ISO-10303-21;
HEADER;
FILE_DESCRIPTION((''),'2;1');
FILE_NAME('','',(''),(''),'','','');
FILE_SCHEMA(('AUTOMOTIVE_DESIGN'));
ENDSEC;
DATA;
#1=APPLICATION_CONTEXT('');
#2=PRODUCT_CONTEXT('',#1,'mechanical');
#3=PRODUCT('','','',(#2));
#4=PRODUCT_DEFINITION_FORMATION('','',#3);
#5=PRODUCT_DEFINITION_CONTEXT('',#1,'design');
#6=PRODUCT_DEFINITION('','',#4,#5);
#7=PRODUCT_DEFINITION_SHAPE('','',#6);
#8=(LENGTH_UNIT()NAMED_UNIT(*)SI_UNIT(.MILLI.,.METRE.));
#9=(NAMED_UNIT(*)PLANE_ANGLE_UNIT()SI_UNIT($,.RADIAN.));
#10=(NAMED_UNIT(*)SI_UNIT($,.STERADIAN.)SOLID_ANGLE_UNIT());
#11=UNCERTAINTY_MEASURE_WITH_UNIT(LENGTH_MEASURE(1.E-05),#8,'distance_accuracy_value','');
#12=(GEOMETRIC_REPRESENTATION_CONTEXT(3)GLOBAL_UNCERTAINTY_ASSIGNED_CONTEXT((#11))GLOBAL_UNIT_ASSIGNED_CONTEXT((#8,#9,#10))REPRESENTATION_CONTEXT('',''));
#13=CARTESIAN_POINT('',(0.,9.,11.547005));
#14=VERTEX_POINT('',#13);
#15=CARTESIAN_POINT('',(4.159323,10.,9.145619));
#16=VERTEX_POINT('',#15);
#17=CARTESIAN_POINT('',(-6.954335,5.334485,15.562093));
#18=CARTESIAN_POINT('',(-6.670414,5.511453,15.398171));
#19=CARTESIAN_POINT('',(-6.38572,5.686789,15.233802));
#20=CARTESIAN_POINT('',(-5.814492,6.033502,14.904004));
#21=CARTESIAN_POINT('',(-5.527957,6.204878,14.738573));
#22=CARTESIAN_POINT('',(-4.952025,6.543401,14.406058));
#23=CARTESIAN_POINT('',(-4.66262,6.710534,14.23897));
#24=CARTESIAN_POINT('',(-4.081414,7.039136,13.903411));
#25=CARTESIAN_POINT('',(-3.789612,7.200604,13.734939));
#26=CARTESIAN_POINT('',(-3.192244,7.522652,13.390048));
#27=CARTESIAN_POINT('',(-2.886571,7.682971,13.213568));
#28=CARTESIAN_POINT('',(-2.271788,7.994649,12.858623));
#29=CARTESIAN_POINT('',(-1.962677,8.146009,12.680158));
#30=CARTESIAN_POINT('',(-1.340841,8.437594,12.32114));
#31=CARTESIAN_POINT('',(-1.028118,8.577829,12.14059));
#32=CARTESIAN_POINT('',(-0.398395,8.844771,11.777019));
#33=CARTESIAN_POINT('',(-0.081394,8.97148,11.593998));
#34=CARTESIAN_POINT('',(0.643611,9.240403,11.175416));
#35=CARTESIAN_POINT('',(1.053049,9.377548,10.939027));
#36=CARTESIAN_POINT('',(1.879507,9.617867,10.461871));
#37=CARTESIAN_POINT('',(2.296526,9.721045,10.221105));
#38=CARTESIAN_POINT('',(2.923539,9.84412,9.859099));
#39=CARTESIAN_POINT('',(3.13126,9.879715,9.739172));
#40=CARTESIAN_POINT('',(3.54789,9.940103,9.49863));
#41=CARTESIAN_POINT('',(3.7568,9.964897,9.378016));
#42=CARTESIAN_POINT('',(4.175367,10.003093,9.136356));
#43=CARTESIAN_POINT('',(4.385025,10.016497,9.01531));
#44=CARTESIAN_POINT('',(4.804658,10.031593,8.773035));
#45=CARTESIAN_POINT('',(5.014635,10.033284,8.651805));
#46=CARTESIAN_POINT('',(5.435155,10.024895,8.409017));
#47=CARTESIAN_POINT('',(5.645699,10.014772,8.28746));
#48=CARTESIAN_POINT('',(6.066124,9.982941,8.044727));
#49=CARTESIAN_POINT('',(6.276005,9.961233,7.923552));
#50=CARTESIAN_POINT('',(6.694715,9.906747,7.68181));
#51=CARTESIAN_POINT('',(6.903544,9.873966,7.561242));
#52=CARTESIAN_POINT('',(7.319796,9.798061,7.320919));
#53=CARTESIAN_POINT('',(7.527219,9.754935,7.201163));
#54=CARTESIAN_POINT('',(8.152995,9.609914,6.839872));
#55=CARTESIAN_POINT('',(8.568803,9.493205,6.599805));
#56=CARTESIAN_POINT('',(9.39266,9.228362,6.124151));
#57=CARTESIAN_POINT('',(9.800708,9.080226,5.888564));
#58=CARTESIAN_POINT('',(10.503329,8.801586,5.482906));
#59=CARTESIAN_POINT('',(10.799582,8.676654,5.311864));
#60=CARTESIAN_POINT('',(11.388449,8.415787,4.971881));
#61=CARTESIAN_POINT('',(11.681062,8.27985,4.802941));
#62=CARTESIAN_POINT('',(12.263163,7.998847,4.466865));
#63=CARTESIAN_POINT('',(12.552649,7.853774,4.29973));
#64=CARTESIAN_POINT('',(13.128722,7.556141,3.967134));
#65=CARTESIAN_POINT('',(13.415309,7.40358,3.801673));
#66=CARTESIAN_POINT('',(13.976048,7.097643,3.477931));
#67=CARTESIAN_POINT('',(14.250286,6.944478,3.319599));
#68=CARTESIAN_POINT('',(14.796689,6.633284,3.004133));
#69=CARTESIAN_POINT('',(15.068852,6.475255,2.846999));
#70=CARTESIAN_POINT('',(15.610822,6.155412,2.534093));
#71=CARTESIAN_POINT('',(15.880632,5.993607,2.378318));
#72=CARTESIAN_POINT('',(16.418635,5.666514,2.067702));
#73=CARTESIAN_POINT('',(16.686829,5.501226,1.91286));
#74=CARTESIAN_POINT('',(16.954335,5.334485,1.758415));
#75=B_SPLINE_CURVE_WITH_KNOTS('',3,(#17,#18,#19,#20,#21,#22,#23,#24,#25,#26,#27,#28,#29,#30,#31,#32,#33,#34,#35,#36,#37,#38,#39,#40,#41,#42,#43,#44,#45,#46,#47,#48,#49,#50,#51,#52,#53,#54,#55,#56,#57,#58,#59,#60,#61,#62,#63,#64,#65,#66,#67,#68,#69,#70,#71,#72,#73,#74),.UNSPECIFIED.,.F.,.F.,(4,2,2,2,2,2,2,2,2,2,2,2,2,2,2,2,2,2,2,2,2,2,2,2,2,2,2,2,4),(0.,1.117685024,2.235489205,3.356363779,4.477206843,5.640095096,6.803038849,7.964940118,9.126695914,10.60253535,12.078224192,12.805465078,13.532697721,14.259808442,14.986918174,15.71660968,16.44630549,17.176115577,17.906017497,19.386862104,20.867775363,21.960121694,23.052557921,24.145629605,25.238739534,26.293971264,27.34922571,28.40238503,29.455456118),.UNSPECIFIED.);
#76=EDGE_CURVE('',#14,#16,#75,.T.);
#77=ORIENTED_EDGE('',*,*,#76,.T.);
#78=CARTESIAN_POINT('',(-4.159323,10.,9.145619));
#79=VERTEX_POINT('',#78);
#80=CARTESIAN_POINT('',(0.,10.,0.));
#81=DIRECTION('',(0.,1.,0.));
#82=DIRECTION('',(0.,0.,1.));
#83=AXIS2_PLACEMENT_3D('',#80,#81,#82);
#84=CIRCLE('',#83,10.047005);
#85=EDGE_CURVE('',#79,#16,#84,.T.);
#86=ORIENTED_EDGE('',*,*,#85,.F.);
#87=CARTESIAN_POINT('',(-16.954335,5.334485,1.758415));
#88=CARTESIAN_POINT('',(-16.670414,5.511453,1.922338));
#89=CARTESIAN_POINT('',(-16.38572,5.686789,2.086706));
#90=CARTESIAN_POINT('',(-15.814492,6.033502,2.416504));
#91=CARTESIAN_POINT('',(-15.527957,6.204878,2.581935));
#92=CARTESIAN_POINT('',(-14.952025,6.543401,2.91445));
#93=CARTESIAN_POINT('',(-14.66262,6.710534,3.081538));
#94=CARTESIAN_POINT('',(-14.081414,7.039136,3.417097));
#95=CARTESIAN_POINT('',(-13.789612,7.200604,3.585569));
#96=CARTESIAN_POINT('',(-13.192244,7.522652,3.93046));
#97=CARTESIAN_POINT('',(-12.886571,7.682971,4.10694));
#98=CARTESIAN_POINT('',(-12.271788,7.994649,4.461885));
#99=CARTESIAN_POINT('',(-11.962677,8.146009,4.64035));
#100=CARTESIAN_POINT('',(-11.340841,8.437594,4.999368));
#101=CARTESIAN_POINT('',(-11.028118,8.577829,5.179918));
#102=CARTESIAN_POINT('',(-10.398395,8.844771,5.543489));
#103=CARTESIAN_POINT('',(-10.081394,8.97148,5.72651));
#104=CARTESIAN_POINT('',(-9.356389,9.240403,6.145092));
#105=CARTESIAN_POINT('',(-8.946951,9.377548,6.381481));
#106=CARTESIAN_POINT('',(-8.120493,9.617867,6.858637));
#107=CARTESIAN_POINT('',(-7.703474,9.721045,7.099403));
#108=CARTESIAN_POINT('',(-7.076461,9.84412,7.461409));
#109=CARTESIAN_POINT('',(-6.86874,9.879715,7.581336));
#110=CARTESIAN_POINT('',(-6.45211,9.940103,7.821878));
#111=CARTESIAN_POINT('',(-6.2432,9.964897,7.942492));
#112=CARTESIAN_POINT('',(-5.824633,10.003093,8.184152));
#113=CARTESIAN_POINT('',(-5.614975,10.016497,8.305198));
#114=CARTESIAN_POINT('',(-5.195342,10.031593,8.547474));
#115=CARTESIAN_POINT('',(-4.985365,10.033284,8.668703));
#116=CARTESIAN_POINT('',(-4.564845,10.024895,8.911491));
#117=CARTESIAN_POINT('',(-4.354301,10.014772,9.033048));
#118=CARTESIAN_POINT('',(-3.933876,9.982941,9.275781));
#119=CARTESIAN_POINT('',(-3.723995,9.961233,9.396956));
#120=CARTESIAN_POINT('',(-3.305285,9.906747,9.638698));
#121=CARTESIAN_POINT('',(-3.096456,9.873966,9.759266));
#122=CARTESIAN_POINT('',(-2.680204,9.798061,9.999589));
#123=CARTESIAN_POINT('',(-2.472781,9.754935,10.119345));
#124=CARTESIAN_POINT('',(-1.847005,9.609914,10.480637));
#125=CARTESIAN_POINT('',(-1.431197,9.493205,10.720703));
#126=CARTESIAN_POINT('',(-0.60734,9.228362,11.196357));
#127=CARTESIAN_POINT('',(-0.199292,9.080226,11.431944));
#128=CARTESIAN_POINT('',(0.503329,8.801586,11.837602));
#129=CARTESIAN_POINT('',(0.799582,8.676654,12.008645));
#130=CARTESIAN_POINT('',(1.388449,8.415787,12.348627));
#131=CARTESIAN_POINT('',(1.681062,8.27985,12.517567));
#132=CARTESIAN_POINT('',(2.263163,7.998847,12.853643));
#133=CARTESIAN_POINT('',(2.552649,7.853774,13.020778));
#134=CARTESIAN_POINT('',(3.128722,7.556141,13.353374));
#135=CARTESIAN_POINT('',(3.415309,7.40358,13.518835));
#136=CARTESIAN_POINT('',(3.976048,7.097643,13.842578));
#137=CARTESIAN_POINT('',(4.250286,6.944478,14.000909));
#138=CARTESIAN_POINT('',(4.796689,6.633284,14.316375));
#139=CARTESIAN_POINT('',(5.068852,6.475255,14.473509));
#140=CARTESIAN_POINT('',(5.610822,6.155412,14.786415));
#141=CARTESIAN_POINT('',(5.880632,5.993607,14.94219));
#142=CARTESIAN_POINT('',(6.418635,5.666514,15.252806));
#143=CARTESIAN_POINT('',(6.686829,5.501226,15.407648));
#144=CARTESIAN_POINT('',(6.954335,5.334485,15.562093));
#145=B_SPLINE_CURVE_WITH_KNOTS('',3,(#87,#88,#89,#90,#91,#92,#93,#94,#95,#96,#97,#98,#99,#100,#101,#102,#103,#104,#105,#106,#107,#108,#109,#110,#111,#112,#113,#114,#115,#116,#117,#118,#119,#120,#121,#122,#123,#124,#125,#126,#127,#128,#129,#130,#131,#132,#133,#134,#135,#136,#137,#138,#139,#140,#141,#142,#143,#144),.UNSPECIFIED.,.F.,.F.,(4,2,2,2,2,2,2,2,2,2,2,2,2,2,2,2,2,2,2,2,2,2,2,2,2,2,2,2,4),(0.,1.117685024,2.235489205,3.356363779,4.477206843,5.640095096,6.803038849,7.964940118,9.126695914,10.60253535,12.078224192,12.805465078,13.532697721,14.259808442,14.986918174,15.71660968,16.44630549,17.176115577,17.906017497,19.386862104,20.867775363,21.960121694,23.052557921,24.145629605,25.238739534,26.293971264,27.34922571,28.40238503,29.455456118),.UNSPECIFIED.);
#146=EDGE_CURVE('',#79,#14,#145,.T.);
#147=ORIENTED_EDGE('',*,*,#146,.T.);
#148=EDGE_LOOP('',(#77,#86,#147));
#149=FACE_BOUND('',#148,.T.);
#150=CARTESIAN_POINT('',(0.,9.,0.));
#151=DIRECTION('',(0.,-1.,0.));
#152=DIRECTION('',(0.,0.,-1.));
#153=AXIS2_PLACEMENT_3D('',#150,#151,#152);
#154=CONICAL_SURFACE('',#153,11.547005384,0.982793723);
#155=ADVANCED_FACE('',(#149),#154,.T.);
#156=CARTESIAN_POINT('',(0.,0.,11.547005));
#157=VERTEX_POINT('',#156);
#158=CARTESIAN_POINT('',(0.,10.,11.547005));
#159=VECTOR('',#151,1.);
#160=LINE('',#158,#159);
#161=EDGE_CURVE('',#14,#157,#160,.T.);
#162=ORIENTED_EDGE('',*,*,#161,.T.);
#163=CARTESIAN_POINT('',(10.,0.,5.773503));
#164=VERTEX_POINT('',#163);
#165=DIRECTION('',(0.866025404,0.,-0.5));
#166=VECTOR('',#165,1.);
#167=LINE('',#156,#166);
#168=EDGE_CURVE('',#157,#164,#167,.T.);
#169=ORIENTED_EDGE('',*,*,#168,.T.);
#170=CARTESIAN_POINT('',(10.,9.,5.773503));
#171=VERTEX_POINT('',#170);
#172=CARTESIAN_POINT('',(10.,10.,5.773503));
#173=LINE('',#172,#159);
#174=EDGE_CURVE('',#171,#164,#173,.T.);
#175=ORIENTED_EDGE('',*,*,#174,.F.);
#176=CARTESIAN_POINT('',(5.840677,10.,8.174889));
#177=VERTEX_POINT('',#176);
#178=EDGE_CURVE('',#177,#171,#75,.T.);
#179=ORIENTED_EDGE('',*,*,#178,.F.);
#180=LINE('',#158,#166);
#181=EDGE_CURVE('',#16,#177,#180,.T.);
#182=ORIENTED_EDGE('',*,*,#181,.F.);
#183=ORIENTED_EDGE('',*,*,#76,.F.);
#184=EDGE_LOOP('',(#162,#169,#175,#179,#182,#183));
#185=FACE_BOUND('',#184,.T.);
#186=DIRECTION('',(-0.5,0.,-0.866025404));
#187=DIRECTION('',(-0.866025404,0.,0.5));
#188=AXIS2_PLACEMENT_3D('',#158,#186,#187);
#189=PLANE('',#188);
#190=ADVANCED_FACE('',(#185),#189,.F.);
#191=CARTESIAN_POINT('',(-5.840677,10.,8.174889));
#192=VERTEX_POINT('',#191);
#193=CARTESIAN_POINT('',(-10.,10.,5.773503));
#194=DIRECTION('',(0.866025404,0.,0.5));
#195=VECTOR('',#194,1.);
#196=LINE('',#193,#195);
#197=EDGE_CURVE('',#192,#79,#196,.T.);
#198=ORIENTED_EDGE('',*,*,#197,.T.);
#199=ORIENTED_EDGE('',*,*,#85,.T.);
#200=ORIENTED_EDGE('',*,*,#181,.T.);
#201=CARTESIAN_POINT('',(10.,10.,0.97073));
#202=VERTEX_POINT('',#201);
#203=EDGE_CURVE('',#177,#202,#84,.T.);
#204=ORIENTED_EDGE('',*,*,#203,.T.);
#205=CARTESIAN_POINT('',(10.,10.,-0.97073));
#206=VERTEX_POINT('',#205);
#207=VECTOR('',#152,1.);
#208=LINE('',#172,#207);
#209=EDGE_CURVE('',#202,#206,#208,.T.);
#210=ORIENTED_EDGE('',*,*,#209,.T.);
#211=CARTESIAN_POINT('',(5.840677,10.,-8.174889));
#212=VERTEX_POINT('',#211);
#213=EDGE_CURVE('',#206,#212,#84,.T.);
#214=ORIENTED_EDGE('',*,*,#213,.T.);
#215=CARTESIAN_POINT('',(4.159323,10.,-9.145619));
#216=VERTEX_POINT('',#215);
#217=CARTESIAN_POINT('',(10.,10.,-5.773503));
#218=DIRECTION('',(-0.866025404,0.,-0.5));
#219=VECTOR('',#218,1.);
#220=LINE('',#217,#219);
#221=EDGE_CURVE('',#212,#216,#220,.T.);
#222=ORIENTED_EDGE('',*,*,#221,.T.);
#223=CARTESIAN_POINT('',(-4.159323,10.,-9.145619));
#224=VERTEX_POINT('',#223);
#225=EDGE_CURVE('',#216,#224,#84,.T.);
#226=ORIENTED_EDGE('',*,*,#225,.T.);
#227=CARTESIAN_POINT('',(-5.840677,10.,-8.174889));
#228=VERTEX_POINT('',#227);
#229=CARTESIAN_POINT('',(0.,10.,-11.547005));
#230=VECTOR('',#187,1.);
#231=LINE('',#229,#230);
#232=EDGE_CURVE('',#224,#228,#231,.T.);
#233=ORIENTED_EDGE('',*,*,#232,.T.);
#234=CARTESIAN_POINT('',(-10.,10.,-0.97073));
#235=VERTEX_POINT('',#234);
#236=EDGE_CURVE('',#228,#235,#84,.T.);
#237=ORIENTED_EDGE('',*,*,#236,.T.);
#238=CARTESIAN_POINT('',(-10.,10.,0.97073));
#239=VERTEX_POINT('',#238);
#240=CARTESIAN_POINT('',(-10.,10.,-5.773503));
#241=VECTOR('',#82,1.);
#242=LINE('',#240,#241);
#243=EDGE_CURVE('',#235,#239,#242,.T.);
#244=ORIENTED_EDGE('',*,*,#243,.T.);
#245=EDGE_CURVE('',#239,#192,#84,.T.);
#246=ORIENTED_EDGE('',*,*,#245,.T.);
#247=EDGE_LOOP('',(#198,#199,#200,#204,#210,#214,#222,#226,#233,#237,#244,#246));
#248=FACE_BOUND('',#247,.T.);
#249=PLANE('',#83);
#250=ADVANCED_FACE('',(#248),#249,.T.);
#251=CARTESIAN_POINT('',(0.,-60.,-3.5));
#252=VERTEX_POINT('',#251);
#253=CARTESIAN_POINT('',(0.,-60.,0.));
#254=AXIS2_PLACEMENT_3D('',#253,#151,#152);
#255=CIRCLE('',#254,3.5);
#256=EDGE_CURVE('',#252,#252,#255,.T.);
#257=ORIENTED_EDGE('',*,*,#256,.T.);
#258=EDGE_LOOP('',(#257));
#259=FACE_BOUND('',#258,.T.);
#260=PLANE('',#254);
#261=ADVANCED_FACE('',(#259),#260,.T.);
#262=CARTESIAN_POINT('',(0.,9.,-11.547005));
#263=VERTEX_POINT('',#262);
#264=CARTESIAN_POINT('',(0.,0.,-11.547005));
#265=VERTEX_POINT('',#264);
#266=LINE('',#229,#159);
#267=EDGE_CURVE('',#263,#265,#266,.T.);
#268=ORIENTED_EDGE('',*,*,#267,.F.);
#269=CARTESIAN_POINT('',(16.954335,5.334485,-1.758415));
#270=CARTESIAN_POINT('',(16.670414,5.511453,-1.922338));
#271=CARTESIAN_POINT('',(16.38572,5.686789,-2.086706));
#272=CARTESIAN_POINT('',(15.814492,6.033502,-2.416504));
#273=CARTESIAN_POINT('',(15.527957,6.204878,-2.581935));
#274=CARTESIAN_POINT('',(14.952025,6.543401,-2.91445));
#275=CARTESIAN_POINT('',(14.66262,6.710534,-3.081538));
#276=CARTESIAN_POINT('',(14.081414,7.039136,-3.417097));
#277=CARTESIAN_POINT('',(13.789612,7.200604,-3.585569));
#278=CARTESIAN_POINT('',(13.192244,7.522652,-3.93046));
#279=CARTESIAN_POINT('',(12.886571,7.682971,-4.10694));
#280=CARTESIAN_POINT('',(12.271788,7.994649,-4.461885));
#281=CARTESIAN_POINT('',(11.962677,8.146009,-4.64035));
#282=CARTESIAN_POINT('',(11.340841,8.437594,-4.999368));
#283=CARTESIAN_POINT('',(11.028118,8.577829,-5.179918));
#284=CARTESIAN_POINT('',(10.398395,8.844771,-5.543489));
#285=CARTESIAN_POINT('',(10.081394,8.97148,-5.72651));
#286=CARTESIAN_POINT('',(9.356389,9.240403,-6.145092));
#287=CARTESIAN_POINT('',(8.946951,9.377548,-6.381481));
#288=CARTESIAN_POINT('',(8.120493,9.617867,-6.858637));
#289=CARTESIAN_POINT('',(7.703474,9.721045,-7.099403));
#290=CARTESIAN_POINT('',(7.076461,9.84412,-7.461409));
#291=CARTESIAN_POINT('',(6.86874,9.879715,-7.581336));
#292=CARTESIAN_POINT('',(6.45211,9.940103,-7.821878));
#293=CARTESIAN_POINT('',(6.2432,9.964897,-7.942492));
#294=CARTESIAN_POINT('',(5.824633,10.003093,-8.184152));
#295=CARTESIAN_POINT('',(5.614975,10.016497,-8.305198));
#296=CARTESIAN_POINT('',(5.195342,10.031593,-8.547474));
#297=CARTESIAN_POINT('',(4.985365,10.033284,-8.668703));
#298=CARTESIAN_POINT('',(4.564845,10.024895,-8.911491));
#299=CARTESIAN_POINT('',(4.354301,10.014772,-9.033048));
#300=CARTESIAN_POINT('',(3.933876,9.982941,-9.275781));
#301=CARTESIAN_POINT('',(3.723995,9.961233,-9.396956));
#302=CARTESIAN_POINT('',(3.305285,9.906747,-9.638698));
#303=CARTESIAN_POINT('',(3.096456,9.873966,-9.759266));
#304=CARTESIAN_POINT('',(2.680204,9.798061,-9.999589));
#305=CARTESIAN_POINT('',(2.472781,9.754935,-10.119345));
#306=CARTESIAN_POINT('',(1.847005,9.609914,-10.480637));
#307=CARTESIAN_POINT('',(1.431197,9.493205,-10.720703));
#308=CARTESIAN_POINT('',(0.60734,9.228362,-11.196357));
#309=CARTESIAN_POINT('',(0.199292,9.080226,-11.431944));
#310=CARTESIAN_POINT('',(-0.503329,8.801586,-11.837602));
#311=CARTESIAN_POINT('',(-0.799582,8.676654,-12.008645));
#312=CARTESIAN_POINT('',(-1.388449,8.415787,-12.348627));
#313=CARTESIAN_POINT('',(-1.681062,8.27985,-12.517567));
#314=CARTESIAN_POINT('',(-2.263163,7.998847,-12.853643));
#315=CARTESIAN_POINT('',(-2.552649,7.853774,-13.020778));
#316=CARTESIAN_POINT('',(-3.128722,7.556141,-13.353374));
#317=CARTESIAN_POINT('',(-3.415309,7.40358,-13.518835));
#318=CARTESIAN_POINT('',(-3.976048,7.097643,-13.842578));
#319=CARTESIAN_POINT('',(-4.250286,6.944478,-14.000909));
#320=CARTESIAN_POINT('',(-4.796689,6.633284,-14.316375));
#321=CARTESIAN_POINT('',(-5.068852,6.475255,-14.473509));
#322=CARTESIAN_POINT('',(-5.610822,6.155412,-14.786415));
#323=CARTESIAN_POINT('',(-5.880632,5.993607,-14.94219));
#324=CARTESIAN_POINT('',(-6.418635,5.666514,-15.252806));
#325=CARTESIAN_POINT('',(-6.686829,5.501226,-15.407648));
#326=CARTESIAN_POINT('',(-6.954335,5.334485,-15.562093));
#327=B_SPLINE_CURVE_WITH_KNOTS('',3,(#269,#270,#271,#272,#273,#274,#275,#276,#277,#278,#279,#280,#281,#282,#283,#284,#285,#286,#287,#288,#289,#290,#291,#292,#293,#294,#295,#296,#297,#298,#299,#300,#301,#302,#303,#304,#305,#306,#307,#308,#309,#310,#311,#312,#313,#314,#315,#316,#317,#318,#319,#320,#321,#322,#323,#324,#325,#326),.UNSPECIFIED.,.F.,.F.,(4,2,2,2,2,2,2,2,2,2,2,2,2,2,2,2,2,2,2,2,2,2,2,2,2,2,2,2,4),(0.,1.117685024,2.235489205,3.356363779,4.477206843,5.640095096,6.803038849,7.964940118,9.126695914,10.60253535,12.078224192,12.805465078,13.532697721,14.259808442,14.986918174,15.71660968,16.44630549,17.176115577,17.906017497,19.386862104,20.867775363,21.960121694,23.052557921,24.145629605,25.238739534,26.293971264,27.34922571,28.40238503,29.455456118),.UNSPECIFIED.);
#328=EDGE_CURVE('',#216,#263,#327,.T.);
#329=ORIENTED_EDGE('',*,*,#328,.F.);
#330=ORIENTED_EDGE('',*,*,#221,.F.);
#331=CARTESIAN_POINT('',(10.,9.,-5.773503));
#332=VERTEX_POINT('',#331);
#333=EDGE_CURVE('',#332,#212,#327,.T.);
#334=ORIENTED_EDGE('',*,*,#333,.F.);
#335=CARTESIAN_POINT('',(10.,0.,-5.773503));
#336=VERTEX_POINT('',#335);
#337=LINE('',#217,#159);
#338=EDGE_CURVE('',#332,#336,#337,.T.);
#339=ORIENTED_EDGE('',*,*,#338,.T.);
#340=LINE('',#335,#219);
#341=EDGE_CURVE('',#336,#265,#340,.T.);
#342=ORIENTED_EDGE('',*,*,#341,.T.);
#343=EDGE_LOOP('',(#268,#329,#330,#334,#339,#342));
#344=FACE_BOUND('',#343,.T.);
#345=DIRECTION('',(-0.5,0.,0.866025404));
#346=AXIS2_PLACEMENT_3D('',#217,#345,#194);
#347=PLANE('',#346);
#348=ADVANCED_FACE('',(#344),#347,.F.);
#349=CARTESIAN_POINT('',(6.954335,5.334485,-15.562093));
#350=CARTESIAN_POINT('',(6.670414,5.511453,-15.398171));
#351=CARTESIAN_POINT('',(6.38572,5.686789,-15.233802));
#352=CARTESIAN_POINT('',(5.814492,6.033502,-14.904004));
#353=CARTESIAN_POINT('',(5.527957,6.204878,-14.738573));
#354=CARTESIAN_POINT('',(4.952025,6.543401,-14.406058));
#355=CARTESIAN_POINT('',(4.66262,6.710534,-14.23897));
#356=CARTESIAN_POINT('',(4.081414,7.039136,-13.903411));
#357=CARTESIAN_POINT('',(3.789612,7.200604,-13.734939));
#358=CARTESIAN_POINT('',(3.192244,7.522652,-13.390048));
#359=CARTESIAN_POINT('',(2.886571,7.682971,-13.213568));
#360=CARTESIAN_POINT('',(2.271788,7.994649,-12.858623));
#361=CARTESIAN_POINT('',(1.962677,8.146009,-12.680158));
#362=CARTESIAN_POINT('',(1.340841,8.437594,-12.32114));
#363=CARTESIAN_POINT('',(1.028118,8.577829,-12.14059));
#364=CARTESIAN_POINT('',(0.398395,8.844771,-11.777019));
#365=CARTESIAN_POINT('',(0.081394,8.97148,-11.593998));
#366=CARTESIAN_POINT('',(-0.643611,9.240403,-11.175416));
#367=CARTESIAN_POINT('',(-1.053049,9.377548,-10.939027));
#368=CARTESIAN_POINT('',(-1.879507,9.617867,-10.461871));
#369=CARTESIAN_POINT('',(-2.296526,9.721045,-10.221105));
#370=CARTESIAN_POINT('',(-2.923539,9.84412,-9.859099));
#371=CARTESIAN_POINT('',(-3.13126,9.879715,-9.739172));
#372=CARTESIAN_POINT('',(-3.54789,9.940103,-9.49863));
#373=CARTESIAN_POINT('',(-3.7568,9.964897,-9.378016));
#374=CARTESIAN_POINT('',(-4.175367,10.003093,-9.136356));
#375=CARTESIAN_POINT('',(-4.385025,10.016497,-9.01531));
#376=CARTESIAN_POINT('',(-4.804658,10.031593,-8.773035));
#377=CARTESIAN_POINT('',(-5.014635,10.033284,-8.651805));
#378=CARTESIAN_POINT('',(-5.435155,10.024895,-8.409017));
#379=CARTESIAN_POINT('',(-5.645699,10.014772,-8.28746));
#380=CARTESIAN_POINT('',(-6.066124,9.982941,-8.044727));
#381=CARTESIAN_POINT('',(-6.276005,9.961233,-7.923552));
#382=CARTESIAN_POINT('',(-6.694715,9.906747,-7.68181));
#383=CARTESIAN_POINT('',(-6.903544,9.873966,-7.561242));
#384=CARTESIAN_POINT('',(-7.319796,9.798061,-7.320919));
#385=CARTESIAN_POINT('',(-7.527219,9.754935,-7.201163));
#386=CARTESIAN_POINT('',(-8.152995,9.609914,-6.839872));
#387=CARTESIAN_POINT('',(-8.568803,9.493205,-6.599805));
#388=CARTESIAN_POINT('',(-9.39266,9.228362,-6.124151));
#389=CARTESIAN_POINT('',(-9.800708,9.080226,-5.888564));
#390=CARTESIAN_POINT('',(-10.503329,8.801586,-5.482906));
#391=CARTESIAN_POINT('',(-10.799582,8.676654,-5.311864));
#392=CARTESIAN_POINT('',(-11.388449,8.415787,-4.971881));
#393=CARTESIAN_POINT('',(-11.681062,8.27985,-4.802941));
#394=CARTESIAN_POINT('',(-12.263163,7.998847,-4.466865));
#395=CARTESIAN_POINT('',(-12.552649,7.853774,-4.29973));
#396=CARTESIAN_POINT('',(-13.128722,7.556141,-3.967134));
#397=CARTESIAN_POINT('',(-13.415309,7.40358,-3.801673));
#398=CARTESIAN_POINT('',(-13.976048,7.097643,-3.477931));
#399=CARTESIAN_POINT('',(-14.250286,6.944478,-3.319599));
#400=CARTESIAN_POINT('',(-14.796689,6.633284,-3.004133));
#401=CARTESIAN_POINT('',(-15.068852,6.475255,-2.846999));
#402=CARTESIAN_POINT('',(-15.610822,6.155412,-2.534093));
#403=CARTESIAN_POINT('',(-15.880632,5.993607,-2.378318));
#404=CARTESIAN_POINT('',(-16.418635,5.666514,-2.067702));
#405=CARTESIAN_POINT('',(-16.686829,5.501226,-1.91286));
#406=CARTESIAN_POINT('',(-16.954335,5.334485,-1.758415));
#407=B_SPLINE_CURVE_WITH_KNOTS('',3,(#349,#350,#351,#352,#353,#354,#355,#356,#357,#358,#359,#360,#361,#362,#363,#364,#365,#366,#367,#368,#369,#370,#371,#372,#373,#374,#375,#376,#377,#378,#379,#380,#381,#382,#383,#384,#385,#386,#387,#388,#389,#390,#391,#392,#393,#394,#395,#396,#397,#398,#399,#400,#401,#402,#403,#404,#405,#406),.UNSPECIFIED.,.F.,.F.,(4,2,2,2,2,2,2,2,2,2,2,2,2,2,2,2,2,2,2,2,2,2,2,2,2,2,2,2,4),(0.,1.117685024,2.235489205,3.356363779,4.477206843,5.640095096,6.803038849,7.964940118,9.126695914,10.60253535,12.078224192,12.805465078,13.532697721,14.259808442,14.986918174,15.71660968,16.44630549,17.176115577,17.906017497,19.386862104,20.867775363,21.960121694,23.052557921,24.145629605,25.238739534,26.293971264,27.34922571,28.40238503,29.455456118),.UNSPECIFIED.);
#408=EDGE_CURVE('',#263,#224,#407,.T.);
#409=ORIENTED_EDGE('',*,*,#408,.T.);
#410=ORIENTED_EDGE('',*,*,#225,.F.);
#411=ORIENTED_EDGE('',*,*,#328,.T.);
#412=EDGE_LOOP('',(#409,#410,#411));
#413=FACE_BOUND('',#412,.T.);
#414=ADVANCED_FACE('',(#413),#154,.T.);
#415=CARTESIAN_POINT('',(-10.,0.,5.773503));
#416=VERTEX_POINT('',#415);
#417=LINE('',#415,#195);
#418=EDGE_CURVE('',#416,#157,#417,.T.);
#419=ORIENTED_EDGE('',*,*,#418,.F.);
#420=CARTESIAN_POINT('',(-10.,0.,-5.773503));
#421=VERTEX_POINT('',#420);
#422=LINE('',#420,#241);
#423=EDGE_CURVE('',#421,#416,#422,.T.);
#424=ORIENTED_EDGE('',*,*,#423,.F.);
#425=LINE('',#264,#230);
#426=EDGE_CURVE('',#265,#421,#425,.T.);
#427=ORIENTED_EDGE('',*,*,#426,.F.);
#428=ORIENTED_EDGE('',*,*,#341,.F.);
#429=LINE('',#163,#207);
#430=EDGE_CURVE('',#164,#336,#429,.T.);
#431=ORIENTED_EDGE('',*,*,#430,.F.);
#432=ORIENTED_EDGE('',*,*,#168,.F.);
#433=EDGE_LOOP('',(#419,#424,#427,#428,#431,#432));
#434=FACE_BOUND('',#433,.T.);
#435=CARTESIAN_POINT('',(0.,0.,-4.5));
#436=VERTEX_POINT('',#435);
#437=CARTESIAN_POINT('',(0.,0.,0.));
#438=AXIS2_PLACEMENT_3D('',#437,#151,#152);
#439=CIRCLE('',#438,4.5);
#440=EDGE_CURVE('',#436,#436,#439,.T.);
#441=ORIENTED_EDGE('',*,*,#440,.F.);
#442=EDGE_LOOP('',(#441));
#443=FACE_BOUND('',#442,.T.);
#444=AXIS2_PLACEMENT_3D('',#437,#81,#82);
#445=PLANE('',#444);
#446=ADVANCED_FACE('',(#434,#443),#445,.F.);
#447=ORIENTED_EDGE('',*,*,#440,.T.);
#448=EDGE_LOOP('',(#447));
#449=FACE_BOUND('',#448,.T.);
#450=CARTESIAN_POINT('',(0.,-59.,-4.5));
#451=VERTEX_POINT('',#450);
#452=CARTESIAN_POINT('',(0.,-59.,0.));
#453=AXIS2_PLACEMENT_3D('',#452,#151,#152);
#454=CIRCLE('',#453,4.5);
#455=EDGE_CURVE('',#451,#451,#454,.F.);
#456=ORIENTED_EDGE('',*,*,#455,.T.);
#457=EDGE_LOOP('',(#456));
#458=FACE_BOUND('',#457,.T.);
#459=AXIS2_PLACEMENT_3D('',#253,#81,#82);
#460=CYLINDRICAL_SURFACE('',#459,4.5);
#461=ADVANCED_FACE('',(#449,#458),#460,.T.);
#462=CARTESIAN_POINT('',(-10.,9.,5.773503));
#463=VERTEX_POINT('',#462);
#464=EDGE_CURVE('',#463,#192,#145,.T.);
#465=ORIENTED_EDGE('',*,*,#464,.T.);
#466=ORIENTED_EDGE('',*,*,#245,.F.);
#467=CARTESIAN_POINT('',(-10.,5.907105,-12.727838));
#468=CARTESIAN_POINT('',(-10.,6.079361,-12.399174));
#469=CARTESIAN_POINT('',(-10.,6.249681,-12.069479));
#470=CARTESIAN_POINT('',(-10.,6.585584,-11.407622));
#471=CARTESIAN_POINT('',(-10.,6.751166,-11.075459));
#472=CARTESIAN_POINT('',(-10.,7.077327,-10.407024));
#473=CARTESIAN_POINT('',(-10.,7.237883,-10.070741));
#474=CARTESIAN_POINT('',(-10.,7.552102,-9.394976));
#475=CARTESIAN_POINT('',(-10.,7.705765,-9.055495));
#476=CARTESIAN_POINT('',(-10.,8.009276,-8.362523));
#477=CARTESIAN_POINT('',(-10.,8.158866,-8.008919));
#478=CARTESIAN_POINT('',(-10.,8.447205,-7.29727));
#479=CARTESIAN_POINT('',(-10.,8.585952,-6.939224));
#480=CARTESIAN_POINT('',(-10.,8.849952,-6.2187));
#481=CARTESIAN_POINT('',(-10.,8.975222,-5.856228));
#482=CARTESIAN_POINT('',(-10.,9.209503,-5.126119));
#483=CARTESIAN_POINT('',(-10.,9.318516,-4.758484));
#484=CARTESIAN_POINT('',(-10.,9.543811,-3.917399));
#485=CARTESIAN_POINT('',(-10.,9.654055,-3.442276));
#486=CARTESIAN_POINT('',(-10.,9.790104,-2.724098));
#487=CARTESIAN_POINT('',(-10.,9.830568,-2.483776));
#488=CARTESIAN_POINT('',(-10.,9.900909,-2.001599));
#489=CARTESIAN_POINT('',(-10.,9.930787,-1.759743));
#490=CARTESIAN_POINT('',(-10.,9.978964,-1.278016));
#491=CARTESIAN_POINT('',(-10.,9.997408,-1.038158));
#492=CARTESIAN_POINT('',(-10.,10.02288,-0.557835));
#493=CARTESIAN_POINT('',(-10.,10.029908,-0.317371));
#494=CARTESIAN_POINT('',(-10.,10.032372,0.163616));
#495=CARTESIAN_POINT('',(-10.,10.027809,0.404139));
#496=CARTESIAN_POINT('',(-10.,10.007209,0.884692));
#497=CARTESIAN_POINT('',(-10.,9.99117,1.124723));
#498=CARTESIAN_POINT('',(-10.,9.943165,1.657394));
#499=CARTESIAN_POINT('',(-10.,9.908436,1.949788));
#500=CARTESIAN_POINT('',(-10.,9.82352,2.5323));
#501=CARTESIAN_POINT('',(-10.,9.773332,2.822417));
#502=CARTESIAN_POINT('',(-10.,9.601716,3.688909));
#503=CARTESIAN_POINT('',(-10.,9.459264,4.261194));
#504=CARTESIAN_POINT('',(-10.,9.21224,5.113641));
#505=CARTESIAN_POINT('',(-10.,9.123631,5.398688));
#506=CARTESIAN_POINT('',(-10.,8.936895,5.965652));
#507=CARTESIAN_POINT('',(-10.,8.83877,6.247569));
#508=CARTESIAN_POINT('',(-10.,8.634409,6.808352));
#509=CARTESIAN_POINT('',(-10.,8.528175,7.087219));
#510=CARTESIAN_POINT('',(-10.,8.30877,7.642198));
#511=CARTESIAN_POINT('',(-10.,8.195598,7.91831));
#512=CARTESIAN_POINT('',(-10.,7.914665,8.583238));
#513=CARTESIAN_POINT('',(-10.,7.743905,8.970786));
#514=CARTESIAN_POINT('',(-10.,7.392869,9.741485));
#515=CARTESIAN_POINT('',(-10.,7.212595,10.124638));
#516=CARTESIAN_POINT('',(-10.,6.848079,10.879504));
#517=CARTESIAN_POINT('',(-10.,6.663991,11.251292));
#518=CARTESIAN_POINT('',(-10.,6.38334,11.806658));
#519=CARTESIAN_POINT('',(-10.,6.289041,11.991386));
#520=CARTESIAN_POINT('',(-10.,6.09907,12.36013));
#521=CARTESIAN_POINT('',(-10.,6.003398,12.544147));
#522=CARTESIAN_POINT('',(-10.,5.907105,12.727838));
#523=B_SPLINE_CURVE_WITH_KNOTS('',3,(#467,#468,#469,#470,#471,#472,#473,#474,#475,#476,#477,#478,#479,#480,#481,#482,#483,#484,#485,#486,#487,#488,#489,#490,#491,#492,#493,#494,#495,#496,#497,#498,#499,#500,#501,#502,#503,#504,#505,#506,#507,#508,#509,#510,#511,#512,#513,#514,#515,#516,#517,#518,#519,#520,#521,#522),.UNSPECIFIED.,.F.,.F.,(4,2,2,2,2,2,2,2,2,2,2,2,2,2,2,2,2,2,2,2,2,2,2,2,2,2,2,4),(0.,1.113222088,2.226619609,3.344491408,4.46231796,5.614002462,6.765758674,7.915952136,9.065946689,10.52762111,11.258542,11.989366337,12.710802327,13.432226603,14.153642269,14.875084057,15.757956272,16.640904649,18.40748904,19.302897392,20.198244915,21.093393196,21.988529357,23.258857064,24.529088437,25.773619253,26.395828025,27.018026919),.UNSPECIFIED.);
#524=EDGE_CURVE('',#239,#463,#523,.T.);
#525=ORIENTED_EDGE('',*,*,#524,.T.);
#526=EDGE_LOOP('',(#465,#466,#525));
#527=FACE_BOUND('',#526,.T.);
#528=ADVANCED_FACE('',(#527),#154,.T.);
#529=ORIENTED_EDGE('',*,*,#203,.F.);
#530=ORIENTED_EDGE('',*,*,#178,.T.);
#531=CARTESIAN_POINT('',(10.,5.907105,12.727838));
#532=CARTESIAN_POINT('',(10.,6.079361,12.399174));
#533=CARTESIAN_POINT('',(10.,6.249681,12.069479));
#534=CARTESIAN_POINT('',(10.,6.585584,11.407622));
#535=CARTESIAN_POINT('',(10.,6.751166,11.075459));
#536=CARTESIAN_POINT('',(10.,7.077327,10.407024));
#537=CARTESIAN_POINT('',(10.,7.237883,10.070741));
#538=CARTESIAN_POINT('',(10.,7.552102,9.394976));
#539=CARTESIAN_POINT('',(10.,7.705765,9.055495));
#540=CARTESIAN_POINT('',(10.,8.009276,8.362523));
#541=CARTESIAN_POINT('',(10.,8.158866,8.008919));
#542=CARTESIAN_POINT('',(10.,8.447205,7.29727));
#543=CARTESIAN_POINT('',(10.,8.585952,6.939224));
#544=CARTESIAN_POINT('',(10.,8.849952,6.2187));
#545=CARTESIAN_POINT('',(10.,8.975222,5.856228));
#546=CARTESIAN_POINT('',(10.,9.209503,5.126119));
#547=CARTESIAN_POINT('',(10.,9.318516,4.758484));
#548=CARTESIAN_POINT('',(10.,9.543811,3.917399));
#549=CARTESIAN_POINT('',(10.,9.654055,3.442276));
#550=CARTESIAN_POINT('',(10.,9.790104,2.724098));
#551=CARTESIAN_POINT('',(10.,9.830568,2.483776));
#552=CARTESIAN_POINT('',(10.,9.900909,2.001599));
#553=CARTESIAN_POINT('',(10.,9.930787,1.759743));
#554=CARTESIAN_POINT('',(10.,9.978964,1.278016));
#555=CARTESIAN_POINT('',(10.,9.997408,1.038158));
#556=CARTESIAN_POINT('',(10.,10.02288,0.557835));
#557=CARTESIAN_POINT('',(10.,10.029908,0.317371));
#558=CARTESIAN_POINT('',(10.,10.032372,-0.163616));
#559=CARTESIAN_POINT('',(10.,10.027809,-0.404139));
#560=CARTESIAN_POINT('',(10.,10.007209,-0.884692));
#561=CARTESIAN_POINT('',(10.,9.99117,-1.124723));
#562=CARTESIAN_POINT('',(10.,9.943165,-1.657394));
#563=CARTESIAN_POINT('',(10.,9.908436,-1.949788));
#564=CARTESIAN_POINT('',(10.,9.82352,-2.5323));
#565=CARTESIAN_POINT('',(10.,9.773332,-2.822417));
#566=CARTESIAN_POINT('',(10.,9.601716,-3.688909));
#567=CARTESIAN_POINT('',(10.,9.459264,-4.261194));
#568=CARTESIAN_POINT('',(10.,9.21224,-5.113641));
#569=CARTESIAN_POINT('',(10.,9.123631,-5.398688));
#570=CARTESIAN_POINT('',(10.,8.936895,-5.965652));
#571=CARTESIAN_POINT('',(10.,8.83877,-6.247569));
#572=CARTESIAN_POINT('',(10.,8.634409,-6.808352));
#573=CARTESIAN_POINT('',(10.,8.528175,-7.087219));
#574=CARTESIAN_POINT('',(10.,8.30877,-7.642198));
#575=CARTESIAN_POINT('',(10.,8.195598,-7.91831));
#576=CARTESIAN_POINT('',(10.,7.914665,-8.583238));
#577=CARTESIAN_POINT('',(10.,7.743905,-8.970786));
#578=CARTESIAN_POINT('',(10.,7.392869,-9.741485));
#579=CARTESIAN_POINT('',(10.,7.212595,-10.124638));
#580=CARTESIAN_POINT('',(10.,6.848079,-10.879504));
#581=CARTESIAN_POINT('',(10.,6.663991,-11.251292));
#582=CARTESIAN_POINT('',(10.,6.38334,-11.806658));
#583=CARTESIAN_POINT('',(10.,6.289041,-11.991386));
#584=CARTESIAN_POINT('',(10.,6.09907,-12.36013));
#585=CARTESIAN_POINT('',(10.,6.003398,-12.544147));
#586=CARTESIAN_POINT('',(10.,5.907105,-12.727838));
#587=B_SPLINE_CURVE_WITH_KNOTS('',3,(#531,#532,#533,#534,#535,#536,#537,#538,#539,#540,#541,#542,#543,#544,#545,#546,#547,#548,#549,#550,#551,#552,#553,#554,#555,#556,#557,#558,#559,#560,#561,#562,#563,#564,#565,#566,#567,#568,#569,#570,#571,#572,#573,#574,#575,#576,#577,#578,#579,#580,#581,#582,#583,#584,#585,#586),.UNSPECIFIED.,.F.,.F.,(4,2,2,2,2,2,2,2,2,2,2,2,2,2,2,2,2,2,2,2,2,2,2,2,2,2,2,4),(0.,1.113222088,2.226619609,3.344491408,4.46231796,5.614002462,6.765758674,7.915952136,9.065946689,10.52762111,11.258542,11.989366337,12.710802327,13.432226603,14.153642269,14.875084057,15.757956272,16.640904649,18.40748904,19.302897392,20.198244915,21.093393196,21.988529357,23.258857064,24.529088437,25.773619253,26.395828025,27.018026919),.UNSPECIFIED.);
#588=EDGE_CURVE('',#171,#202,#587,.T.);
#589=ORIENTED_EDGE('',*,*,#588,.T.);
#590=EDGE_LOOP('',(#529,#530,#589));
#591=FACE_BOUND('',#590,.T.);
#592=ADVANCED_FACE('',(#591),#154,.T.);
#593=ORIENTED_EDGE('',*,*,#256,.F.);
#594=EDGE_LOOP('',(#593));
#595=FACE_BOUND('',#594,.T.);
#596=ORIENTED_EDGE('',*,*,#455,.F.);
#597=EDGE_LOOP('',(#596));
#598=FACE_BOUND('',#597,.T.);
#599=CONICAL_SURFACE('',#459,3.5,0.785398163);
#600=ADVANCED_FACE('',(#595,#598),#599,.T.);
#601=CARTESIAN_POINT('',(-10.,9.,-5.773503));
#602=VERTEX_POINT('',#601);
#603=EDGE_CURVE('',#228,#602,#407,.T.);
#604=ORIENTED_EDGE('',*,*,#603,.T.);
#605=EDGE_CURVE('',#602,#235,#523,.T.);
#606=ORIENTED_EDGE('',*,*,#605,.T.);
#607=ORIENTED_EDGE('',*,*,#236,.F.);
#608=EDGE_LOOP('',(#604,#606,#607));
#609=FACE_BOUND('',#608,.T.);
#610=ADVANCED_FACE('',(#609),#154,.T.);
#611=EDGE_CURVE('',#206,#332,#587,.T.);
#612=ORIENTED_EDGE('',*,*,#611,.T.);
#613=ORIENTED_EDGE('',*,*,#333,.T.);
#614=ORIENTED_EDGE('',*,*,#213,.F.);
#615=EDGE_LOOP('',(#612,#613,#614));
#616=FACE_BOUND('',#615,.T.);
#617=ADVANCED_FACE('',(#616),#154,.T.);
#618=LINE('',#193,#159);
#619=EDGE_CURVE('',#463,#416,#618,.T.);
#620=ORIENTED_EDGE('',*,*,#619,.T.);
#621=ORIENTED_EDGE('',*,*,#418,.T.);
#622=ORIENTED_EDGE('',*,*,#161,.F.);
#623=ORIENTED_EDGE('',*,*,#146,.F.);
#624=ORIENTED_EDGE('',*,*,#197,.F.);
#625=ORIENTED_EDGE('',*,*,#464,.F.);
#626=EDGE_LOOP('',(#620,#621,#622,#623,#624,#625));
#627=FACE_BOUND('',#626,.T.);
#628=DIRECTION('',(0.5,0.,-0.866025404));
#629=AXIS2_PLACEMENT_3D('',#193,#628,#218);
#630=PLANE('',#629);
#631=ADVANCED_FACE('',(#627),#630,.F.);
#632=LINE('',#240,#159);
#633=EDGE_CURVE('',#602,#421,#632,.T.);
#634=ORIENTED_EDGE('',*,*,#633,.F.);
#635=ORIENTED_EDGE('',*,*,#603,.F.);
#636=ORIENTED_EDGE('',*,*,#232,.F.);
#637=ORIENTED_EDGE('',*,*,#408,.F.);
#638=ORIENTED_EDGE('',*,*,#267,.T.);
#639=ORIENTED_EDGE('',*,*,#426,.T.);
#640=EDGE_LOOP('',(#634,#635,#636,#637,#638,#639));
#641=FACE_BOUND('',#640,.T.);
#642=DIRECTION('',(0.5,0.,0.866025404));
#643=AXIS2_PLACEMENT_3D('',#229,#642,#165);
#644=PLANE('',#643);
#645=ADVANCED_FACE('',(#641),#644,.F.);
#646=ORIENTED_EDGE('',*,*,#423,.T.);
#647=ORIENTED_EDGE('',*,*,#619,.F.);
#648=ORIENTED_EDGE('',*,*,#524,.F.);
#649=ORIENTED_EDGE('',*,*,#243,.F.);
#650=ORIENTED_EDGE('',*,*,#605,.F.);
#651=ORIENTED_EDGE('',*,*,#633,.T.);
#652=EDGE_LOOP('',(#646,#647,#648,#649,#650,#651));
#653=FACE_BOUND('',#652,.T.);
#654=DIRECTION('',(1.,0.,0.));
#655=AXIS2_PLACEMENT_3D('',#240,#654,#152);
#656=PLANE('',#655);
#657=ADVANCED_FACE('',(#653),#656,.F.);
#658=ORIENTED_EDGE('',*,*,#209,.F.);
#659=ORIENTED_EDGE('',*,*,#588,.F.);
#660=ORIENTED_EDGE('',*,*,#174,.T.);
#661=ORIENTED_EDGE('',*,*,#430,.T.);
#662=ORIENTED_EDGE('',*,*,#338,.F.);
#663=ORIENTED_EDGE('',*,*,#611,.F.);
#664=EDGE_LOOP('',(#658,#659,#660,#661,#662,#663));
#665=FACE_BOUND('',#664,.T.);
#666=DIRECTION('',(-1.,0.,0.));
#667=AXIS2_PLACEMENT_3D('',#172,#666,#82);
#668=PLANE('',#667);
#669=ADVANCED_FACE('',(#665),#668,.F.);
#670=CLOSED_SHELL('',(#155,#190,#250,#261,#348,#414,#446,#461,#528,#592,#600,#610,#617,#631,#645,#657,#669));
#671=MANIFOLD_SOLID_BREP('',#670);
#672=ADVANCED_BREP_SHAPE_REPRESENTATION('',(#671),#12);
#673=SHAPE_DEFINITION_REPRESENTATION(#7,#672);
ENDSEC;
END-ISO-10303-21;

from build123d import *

# Parameters (mm, degrees)
BOSS_EXTRUDE1_DEPTH = 10
SKETCH3_R           = 4.5
BOSS_EXTRUDE2_DEPTH = 60
CHAMFER1_SIZE       = 1


with BuildPart() as part:
    # Sketch1 → Boss-Extrude1 (new body)
    with BuildSketch(Plane(origin=(0, 0, 0), x_dir=(1, 0, 0), z_dir=(0, 1, 0))):
        Polygon((10, 5.773502692), (0, 11.547005384), (-10, 5.773502692), (-10, -5.773502692), (0, -11.547005384), (10, -5.773502692), align=None)
    extrude(amount=BOSS_EXTRUDE1_DEPTH)

    # Sketch2 → Cut-Revolve1 (revolve, cut)
    with BuildSketch(Plane(origin=(0, 0, 0), x_dir=(0, 0, -1), z_dir=(1, 0, 0))):
        Polygon((-11.547005384, 10), (-10.047005384, 10), (-11.547005384, 9), align=None)
    revolve(axis=Axis((0, 0, 0), (0, 1, 0)), mode=Mode.SUBTRACT)

    # Sketch3 → Boss-Extrude2 (add)
    with BuildSketch(Plane.XZ):
        Circle(SKETCH3_R)
    extrude(amount=BOSS_EXTRUDE2_DEPTH)

    # Chamfer1
    chamfer1_edges = [part.edges().sort_by_distance(p)[0] for p in [
        (-4.5, -60, 0),
    ]]
    chamfer(chamfer1_edges, length=CHAMFER1_SIZE)


solid = part.part
